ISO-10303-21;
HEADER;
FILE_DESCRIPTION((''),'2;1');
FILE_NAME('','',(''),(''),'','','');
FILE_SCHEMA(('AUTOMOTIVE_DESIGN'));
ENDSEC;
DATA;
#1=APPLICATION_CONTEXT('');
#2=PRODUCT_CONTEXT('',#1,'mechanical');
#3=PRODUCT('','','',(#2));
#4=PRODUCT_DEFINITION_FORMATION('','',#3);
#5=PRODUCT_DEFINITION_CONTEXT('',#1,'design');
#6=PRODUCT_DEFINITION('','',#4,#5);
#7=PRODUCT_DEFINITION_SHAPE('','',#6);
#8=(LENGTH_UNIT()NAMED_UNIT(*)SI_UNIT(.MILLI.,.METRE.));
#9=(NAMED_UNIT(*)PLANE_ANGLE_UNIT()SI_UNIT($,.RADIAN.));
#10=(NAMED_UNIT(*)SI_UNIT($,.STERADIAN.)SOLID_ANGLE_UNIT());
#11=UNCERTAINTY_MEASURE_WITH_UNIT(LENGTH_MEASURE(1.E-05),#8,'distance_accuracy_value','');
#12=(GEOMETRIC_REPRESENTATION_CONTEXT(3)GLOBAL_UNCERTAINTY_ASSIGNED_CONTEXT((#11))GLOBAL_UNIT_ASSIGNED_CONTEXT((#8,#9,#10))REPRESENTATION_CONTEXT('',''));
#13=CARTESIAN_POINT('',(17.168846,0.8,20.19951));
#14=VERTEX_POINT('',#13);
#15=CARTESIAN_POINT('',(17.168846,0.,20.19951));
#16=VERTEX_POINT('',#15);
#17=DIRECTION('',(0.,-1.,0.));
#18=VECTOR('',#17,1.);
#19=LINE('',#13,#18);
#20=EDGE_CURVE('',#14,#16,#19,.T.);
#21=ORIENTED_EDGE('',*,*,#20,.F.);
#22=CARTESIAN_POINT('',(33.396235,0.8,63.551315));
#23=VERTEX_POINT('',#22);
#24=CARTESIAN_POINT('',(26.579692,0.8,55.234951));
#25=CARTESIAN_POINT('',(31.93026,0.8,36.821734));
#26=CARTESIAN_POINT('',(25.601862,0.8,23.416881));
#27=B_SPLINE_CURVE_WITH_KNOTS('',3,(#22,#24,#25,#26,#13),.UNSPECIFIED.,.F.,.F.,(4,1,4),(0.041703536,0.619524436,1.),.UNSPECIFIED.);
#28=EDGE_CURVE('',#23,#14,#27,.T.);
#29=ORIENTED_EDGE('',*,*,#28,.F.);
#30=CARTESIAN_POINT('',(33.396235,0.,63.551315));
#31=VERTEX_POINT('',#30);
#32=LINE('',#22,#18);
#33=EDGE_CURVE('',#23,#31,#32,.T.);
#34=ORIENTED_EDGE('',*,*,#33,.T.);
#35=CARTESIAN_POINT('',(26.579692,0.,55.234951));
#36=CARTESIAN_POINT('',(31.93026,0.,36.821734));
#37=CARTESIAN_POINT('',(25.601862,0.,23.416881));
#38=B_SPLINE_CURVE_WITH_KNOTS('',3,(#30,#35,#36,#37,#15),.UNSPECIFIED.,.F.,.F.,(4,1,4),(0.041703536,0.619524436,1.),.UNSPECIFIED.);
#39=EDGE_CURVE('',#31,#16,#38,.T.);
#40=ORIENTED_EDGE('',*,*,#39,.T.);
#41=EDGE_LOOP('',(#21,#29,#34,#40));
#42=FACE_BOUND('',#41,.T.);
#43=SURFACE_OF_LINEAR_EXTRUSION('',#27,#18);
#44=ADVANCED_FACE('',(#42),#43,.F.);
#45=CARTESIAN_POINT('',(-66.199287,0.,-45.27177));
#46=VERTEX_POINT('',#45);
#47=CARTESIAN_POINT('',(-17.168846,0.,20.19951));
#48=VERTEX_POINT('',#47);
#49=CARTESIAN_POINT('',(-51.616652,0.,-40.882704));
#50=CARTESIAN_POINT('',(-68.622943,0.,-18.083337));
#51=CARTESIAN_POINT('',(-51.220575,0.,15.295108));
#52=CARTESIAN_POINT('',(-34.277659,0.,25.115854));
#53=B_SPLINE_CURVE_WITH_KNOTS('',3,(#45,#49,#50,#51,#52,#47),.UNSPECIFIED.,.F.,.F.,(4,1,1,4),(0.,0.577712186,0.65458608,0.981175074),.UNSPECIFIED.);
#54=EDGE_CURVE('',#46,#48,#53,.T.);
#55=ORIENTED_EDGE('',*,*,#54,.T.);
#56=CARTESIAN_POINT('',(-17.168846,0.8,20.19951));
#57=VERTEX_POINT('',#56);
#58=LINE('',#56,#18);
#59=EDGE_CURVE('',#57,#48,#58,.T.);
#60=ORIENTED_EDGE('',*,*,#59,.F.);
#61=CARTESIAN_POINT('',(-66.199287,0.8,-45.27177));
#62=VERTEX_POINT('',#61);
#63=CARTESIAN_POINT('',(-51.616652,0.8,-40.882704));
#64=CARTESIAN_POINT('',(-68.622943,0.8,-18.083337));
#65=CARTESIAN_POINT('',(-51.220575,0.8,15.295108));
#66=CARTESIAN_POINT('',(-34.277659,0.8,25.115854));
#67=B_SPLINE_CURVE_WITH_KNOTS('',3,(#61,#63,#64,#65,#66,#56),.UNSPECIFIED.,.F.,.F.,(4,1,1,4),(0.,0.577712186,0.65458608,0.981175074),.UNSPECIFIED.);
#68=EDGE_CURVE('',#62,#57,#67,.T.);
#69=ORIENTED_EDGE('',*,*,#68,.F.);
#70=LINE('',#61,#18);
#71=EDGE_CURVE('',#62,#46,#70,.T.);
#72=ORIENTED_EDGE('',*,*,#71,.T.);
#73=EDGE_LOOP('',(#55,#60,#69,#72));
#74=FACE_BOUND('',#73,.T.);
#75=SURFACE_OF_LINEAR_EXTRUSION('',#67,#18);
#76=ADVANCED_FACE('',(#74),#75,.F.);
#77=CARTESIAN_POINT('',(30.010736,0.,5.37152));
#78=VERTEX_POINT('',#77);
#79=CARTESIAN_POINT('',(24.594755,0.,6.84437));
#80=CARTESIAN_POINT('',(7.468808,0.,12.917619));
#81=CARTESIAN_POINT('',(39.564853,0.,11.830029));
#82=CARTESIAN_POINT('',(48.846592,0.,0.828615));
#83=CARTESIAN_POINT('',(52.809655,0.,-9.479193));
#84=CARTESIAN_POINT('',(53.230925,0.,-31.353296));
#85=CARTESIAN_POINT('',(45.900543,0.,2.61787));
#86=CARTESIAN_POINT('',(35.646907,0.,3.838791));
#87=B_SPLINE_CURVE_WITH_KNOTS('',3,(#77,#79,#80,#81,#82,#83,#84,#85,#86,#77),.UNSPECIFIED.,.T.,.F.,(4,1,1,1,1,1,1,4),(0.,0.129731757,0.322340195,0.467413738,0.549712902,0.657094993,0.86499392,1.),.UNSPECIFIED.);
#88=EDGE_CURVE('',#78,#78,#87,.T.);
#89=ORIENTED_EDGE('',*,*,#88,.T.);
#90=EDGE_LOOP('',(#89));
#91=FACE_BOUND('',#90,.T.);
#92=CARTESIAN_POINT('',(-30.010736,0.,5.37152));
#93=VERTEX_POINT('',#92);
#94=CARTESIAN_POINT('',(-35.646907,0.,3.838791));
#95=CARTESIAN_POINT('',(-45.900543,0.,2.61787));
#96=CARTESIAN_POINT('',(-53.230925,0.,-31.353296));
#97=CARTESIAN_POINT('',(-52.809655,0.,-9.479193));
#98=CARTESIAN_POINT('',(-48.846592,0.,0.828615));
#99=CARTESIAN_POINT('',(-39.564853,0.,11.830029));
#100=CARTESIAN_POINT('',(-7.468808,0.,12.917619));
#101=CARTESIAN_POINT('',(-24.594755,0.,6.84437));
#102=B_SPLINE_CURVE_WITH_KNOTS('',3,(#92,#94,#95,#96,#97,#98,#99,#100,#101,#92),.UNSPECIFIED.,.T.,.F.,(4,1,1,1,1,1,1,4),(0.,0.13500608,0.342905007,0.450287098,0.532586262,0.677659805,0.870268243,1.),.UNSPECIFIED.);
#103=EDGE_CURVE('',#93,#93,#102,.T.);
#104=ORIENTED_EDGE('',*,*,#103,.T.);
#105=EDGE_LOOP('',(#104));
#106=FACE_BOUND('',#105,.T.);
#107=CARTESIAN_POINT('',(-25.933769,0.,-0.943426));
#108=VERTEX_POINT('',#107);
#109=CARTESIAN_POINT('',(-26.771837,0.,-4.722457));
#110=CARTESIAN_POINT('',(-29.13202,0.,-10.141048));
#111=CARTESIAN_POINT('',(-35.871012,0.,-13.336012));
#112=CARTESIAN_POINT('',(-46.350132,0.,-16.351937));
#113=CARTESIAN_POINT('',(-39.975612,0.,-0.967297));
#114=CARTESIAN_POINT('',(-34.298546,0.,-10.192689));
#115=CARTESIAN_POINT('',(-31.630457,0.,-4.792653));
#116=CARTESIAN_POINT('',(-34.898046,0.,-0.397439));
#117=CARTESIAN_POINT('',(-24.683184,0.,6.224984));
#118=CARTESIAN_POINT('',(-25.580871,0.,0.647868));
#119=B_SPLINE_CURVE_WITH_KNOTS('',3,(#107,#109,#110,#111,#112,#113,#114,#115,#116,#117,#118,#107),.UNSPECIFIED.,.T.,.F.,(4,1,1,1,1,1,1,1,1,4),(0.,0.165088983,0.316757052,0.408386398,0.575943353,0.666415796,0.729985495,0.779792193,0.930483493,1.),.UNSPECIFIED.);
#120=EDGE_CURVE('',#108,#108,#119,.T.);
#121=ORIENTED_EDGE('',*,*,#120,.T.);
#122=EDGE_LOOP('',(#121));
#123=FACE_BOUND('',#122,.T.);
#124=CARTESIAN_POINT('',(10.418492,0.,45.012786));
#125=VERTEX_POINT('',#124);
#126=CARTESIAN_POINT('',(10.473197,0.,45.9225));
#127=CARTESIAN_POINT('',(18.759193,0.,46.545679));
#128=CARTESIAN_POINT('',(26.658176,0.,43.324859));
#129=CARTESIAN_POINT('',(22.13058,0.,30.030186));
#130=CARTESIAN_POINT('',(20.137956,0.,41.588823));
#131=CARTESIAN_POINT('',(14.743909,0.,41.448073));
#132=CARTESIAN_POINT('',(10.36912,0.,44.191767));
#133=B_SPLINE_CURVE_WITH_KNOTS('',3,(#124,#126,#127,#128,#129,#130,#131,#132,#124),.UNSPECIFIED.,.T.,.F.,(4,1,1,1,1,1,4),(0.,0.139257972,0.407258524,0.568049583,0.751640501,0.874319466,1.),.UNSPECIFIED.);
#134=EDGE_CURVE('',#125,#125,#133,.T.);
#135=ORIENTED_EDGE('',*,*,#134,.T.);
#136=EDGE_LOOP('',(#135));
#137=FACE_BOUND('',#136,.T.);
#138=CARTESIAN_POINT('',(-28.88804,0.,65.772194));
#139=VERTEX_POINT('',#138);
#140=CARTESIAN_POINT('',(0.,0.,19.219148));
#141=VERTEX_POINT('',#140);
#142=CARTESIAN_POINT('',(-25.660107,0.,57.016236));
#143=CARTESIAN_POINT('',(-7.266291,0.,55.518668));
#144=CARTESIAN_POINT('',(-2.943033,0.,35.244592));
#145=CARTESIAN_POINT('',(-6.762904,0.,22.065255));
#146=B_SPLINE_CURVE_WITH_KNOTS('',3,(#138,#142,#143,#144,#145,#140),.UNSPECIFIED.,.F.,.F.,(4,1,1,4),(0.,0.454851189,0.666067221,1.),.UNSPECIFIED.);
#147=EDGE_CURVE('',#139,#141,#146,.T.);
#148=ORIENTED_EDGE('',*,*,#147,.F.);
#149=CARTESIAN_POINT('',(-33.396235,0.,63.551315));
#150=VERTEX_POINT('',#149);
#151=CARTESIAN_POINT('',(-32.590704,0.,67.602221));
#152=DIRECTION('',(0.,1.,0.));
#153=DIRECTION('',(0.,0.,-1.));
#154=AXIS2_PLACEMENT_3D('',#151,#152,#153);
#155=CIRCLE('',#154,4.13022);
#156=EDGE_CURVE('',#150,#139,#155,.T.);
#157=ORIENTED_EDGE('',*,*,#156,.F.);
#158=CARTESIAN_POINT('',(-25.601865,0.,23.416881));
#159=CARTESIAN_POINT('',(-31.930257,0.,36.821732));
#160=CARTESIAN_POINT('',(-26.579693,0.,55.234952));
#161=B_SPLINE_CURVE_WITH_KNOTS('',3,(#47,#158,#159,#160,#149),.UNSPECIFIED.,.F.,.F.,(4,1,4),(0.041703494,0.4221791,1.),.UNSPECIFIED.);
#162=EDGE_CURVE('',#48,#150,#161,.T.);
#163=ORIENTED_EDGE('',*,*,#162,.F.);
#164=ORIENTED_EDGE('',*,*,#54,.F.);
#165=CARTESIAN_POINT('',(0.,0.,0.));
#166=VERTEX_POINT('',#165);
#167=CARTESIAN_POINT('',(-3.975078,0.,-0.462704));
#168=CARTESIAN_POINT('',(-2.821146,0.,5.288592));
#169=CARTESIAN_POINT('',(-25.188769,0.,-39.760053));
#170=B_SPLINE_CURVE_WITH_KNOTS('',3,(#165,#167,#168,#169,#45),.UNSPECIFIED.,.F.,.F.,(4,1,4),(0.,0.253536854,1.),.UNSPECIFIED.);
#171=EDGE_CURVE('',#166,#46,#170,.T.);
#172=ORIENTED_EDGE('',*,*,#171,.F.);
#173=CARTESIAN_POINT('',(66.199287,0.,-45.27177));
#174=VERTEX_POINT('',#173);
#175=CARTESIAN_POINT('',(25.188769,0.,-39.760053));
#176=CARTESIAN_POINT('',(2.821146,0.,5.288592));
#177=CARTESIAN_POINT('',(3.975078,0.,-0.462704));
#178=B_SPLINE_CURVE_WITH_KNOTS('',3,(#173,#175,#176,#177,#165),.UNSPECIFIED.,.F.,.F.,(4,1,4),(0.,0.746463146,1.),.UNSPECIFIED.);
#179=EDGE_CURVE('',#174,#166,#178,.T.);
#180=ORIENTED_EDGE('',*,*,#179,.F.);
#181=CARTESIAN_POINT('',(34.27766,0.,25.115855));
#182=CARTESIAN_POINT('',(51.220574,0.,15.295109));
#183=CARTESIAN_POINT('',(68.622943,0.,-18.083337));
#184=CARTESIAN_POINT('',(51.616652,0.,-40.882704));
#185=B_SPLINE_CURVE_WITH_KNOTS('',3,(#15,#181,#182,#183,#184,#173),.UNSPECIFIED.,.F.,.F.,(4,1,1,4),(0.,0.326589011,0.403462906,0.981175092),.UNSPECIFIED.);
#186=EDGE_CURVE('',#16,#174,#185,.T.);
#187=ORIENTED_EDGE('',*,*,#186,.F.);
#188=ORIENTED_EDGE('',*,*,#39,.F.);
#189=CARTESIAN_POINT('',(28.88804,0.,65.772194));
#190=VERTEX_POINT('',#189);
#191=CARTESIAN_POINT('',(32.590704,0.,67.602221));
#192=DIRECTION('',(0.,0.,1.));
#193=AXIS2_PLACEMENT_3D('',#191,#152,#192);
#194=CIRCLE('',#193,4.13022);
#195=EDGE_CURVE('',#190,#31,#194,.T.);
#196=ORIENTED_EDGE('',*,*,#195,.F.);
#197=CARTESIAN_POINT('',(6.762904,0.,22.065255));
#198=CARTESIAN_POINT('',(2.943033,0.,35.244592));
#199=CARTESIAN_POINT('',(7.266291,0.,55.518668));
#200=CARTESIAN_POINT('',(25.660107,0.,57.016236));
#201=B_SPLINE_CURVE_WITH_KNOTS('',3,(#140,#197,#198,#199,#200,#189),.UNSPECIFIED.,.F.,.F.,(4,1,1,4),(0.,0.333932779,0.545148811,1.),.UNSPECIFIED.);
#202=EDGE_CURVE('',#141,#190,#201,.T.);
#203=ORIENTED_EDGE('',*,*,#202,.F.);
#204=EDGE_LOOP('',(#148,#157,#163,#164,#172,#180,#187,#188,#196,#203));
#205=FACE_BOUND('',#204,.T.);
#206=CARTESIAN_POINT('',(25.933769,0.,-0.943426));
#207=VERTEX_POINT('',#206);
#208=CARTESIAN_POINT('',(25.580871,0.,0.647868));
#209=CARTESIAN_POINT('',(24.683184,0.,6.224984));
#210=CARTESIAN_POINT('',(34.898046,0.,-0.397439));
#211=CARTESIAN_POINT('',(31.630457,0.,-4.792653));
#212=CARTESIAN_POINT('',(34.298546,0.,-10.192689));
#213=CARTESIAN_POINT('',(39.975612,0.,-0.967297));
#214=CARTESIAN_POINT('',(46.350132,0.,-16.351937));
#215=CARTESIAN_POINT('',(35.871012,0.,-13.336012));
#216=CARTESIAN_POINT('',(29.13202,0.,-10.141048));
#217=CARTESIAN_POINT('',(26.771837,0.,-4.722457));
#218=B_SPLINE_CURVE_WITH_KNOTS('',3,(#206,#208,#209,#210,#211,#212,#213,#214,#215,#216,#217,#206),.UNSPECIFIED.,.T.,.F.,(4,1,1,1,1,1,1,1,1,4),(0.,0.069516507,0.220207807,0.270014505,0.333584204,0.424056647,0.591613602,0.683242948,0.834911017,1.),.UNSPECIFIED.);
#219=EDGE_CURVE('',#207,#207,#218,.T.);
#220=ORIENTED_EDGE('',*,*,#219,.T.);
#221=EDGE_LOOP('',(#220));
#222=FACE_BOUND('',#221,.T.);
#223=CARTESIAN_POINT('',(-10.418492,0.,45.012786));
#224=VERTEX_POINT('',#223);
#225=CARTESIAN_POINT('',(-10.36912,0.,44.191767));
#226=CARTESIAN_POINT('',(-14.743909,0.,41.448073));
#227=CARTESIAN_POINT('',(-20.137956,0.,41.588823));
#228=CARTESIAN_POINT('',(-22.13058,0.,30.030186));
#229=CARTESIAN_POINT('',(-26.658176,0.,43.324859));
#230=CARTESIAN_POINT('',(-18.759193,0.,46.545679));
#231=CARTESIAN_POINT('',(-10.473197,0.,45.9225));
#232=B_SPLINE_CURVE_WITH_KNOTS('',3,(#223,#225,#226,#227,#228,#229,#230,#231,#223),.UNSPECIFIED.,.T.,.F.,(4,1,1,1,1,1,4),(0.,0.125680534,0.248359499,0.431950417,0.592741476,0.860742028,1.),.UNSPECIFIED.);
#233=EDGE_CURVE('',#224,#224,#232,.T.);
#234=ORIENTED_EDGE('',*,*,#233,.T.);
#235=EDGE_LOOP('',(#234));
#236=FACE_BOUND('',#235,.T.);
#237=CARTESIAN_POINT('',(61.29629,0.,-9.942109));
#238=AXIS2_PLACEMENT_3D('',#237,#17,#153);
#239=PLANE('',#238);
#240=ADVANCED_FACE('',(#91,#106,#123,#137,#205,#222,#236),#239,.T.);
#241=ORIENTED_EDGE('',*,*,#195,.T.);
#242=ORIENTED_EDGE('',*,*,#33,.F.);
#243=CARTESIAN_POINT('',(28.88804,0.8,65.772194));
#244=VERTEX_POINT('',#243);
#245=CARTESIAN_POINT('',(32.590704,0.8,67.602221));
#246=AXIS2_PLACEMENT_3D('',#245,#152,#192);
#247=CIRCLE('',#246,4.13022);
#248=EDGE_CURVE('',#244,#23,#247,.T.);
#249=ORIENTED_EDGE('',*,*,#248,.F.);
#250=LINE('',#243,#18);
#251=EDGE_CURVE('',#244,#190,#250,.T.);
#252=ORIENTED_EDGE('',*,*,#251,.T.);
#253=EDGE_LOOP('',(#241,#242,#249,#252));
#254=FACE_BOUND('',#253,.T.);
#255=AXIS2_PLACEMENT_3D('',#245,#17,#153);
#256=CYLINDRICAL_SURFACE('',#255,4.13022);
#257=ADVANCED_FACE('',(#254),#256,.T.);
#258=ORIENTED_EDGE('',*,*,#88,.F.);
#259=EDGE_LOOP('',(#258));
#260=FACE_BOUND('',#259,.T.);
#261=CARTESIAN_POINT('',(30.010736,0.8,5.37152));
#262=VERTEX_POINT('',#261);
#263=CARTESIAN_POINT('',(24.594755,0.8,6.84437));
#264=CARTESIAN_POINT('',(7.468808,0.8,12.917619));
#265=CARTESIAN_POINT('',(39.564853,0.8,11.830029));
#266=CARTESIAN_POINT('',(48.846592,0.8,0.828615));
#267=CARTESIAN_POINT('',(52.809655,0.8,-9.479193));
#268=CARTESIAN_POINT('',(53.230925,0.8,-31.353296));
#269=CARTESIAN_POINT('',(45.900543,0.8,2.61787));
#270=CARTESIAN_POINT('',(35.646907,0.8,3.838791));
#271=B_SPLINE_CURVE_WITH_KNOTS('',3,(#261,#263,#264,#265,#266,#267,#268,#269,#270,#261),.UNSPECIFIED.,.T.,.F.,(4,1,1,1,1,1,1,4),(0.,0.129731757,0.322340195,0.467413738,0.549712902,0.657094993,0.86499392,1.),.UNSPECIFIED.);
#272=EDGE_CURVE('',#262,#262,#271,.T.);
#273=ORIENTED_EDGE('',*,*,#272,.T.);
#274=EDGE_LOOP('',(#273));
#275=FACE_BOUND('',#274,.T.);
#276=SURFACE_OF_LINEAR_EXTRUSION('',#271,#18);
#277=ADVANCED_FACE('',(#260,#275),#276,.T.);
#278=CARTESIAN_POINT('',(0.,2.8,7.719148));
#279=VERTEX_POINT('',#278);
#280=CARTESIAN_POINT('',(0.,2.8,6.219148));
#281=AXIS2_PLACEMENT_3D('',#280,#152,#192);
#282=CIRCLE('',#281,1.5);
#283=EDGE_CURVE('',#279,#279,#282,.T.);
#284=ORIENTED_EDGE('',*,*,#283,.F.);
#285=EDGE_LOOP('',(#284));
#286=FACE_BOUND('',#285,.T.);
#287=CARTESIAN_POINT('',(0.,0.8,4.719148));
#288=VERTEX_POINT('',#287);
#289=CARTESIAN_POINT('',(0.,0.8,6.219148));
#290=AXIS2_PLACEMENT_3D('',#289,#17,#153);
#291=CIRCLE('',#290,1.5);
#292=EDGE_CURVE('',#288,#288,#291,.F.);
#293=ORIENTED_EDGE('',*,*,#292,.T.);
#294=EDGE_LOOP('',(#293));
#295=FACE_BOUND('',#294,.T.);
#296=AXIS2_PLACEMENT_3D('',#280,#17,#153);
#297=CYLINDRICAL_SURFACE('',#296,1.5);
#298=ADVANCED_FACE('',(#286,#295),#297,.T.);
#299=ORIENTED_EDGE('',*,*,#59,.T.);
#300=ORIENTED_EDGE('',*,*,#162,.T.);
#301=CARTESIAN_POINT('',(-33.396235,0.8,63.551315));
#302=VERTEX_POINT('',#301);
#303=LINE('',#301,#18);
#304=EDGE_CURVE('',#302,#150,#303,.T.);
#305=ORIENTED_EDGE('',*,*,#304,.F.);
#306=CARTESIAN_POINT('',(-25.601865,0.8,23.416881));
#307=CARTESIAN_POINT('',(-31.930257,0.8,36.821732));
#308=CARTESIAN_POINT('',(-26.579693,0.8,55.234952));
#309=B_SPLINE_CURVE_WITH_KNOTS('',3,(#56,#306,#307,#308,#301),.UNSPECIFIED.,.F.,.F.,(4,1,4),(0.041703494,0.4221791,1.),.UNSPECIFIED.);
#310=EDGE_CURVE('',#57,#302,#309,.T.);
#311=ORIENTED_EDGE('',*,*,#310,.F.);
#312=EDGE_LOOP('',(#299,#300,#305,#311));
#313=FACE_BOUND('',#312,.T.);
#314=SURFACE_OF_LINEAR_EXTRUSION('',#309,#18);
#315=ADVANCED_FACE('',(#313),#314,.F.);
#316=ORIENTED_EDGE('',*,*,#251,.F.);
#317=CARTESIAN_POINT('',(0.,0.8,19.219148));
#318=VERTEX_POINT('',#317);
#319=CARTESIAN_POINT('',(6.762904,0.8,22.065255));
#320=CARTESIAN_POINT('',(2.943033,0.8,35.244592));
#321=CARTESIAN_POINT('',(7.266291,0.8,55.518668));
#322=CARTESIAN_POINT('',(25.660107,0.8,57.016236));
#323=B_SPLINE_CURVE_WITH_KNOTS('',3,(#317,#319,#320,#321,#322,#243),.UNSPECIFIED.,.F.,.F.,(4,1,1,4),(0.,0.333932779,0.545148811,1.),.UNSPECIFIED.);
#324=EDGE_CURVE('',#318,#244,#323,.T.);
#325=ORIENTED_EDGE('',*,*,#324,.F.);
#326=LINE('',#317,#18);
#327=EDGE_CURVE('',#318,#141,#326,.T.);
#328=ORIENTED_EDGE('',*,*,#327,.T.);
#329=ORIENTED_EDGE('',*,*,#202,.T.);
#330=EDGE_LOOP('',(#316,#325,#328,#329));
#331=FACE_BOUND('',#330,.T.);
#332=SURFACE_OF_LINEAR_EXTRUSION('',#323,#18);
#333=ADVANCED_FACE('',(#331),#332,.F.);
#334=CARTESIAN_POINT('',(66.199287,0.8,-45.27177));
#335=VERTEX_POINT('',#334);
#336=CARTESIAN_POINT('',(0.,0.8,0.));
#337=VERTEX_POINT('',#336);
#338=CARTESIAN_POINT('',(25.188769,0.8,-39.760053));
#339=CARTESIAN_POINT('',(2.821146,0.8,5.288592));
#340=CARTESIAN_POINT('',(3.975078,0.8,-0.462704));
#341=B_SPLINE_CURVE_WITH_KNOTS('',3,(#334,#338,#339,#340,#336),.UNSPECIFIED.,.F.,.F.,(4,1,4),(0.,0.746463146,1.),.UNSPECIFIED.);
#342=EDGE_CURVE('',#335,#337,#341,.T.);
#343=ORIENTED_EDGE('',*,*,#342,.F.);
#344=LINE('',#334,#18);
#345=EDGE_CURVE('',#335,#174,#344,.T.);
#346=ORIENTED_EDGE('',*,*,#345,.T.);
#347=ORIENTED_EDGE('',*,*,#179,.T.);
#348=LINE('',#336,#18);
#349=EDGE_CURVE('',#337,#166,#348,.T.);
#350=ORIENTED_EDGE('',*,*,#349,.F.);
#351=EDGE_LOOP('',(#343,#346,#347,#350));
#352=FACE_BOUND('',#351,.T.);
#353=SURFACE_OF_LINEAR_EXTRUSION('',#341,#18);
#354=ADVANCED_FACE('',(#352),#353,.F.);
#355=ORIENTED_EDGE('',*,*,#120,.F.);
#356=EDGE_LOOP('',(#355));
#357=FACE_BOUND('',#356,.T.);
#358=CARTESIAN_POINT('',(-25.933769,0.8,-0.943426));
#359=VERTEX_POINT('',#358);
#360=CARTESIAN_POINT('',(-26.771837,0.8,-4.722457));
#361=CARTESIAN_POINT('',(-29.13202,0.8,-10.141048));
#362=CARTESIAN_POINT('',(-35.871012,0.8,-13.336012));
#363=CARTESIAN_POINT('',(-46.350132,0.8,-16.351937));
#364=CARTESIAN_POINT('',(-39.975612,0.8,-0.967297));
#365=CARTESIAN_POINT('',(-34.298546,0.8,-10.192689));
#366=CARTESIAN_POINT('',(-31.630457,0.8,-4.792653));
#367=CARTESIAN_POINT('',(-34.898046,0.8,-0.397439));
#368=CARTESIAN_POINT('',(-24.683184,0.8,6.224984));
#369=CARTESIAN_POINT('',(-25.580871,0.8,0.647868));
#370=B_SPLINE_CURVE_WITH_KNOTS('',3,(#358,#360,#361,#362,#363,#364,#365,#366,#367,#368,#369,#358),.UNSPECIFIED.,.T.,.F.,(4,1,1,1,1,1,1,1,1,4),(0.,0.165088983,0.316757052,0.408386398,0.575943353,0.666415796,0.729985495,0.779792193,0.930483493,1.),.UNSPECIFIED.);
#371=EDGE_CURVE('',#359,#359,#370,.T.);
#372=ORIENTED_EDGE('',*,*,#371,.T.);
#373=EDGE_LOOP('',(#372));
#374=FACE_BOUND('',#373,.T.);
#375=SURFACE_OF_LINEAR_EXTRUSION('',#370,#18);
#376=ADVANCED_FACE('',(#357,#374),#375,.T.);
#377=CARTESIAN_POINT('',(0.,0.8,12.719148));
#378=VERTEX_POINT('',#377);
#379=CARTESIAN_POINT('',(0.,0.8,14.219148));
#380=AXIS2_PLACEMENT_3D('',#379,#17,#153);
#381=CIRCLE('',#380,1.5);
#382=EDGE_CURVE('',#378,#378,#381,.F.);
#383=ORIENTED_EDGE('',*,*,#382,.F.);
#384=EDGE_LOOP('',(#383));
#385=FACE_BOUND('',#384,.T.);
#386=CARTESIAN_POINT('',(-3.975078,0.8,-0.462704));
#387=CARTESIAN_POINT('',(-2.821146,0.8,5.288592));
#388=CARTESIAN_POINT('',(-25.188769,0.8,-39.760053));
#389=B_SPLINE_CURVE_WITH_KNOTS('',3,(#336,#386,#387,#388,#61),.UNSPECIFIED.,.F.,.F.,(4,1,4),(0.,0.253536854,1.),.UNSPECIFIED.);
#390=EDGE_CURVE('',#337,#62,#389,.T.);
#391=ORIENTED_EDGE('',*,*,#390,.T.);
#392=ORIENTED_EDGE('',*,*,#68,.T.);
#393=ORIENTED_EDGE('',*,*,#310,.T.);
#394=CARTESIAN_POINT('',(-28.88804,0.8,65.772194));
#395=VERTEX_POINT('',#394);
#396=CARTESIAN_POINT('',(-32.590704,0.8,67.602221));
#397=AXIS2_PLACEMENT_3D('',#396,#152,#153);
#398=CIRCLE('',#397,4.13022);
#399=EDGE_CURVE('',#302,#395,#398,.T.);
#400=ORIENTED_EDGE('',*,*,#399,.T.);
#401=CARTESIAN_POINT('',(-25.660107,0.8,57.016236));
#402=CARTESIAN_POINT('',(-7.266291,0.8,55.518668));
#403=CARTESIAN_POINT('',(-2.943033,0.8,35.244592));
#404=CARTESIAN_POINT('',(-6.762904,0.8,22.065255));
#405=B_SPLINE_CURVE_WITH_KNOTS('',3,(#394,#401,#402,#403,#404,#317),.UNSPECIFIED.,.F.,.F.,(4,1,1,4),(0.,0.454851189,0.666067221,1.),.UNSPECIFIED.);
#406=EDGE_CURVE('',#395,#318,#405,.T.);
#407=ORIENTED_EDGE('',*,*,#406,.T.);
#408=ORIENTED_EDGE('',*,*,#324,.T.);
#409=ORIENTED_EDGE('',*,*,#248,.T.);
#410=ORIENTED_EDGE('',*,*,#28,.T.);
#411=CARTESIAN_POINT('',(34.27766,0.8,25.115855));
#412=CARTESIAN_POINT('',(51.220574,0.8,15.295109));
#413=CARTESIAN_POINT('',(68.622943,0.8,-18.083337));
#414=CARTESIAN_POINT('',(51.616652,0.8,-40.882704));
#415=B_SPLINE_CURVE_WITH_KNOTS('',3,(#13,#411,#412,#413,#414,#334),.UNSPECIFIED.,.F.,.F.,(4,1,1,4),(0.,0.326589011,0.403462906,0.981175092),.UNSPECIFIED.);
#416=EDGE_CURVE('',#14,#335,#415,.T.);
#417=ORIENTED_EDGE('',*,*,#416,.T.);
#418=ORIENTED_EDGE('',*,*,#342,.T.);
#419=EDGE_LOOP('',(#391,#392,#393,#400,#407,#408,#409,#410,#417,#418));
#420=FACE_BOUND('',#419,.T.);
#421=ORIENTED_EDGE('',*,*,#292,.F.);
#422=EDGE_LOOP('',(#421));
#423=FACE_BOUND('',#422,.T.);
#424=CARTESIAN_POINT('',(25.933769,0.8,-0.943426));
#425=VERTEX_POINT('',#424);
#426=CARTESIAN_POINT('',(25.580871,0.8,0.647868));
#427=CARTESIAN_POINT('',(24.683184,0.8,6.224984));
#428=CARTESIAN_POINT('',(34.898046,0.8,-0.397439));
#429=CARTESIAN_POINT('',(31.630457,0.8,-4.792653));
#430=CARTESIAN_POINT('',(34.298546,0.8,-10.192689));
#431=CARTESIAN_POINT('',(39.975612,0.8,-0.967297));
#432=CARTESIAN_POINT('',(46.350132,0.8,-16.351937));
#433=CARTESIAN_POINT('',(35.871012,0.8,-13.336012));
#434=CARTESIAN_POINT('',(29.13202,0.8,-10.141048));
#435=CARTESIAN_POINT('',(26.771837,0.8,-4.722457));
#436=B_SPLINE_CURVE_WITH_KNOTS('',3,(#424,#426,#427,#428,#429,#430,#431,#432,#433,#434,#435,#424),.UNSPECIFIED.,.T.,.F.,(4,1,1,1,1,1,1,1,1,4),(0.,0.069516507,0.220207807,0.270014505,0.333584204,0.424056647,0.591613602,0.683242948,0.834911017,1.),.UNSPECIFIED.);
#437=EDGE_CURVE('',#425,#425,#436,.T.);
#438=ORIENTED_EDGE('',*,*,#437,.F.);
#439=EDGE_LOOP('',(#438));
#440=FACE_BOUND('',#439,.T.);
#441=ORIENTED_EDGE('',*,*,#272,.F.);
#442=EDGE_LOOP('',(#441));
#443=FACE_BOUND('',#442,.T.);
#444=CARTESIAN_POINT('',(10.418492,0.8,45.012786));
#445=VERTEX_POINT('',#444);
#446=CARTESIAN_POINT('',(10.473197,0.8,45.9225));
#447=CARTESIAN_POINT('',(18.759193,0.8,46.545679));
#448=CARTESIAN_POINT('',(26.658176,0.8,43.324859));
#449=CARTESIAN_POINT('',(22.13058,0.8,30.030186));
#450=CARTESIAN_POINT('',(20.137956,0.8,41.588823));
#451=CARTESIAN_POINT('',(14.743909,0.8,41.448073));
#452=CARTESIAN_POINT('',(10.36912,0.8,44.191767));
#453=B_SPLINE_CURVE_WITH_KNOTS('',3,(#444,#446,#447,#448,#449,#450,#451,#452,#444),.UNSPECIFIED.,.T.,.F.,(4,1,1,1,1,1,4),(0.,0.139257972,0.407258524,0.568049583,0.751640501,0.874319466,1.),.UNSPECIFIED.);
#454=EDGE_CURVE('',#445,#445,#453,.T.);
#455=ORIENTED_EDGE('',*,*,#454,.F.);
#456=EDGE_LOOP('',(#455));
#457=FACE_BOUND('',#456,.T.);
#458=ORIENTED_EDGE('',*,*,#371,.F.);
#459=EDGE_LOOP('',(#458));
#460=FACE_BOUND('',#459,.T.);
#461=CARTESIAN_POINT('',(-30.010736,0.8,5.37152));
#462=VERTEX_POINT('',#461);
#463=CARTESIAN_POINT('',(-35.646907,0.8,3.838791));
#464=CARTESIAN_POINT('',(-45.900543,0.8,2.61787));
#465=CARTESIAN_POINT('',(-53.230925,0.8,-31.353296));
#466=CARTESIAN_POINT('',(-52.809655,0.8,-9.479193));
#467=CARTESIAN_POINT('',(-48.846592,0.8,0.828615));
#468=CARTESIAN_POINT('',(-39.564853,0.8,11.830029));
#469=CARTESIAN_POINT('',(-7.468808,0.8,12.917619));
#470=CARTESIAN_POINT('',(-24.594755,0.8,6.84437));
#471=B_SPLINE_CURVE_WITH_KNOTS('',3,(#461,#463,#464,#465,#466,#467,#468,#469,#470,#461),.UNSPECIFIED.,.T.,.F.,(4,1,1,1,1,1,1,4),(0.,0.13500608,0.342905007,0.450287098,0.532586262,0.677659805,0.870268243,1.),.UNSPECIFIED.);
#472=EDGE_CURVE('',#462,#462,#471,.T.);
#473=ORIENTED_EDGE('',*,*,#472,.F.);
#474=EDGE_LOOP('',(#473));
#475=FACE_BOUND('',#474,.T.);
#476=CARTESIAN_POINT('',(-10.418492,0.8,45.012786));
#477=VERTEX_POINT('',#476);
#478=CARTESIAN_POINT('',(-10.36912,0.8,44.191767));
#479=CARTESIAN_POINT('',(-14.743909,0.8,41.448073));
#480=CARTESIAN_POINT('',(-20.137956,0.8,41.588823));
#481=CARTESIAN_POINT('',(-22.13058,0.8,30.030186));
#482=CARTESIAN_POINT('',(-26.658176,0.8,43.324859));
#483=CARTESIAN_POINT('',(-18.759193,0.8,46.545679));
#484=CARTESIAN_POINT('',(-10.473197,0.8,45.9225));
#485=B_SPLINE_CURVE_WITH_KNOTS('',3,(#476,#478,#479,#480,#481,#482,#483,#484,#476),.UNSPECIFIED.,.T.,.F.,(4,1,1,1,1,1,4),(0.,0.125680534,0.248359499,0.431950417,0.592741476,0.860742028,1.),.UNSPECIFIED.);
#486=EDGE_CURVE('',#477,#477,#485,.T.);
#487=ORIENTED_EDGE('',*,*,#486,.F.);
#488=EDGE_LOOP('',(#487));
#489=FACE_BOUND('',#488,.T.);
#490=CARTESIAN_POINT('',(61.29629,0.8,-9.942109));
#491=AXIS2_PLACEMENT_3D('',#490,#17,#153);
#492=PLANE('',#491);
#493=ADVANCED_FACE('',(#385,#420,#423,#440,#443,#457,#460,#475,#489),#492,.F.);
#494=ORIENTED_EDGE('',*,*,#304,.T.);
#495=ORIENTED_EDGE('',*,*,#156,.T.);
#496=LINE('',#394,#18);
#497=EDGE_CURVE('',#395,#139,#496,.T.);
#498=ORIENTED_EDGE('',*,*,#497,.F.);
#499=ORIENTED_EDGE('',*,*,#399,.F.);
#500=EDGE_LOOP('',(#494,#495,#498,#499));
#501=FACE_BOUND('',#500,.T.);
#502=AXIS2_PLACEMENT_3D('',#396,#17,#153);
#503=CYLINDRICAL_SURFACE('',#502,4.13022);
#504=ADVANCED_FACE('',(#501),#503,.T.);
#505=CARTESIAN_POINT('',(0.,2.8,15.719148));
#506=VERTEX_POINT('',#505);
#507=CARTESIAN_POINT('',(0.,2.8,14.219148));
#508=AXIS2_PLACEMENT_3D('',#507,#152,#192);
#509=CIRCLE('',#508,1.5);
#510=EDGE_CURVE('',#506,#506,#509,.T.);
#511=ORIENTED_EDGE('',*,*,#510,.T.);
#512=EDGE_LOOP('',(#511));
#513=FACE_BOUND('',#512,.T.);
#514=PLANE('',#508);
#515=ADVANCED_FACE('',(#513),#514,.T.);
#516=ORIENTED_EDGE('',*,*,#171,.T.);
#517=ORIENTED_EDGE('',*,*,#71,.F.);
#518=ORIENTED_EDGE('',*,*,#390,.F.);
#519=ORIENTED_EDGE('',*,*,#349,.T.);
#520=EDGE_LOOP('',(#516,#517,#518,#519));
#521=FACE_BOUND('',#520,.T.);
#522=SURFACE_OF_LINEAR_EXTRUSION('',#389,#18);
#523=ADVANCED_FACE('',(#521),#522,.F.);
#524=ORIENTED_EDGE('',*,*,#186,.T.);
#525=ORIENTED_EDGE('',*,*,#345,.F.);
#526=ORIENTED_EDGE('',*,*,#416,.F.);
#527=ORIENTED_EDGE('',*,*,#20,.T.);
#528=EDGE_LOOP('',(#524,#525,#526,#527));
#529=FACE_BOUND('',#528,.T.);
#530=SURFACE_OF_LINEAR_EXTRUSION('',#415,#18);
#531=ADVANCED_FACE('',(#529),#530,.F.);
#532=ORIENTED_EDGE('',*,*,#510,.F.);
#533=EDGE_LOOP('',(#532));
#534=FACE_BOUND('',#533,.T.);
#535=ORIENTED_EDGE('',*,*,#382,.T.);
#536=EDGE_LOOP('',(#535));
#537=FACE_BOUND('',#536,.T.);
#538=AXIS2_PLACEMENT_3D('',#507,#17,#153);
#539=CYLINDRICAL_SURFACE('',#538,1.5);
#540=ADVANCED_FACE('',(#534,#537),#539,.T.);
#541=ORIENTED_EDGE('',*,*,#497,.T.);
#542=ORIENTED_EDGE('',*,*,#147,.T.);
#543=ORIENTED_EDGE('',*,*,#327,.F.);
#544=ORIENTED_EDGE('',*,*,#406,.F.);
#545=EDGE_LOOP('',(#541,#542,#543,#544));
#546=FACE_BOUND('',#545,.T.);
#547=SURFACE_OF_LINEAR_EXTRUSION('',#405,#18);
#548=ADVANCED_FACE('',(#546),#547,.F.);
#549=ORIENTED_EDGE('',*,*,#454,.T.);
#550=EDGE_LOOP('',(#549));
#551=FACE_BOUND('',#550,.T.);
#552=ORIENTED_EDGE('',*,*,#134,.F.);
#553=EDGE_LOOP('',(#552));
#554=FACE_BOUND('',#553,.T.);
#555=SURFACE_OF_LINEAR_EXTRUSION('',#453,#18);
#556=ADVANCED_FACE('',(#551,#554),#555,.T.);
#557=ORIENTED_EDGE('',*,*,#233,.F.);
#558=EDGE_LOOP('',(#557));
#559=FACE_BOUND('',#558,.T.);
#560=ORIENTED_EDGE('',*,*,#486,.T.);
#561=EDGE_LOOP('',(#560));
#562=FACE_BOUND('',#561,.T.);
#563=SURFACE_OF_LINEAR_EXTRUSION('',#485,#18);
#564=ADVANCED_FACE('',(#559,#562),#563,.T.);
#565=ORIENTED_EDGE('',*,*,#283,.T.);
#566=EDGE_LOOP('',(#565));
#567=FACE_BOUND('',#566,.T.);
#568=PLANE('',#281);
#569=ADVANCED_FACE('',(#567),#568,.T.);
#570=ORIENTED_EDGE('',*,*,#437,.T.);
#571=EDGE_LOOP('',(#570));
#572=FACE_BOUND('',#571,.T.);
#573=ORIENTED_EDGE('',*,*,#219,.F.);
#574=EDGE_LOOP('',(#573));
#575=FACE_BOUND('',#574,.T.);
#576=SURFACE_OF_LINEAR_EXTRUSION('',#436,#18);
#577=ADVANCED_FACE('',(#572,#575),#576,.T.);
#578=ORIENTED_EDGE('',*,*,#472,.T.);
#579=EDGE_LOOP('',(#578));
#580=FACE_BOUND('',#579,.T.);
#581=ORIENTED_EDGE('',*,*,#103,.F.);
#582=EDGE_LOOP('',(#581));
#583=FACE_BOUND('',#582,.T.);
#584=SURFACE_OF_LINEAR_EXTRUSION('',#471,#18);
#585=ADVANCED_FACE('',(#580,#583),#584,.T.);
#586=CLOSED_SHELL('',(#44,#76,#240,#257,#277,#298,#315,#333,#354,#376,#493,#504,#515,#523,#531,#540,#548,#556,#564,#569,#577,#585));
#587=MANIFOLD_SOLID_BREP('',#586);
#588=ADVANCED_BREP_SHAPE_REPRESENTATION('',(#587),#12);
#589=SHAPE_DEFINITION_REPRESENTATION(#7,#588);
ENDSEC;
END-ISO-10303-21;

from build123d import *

# Parameters (mm, degrees)
BOSS_EXTRUDE3_DEPTH = 0.8
HARNESS_R           = 1.5
BOSS_EXTRUDE4_DEPTH = 2


with BuildPart() as part:
    # Sketch1 → Boss-Extrude3 (new body)
    with BuildSketch(Plane(origin=(0, 0, 0), x_dir=(1, 0, 0), z_dir=(0, 1, 0))):
        with BuildLine():
            ThreePointArc((28.888039942, -65.77219443), (34.415921768, -71.307257008), (33.396235087, -63.551315138))
            add(Edge.make_bspline(
                [(17.168845941, -20.199510482), (25.601862346, -23.416880713), (31.930259846, -36.821733843), (26.579691655, -55.234951459), (33.396235087, -63.551315138)],
                knots=[0.041703536, 0.041703536, 0.041703536, 0.041703536, 0.4221791, 1, 1, 1, 1], degree=3))
            add(Edge.make_bspline(
                [(66.199286602, 45.271770192), (51.616651545, 40.882704411), (68.622943428, 18.083336745), (51.220574163, -15.295108956), (34.277659956, -25.115855404), (17.168845941, -20.199510482)],
                knots=[0, 0, 0, 0, 0.577712186, 0.654586081, 0.981175092, 0.981175092, 0.981175092, 0.981175092], degree=3))
            add(Edge.make_bspline(
                [(66.199286602, 45.271770192), (25.188769317, 39.760052824), (2.821146187, -5.288592208), (3.975078037, 0.46270426), (0, 0)],
                knots=[0, 0, 0, 0, 0.746463146, 1, 1, 1, 1], degree=3))
            add(Edge.make_bspline(
                [(-66.199286602, 45.271770192), (-25.188769317, 39.760052824), (-2.821146187, -5.288592208), (-3.975078037, 0.46270426), (0, 0)],
                knots=[0, 0, 0, 0, 0.746463146, 1, 1, 1, 1], degree=3))
            add(Edge.make_bspline(
                [(-66.199286602, 45.271770192), (-51.616651674, 40.882704374), (-68.622943119, 18.083336884), (-51.22057473, -15.295108333), (-34.277658731, -25.11585374), (-17.168845941, -20.199510483)],
                knots=[0, 0, 0, 0, 0.577712186, 0.65458608, 0.981175074, 0.981175074, 0.981175074, 0.981175074], degree=3))
            add(Edge.make_bspline(
                [(-17.168845941, -20.199510483), (-25.601864563, -23.416880605), (-31.930257486, -36.821732055), (-26.579693148, -55.234952029), (-33.396235087, -63.551315138)],
                knots=[0.041703494, 0.041703494, 0.041703494, 0.041703494, 0.4221791, 1, 1, 1, 1], degree=3))
            ThreePointArc((-33.396235087, -63.551315138), (-34.415921768, -71.307257008), (-28.888039942, -65.77219443))
            add(Edge.make_bspline(
                [(0, -19.219147723), (-6.762904012, -22.065254633), (-2.943032564, -35.244592356), (-7.26629122, -55.518667737), (-25.66010738, -57.01623645), (-28.888039942, -65.77219443)],
                knots=[0, 0, 0, 0, 0.333932779, 0.545148811, 1, 1, 1, 1], degree=3))
            add(Edge.make_bspline(
                [(0, -19.219147723), (6.762904012, -22.065254633), (2.943032564, -35.244592356), (7.26629122, -55.518667737), (25.66010738, -57.01623645), (28.888039942, -65.77219443)],
                knots=[0, 0, 0, 0, 0.333932779, 0.545148811, 1, 1, 1, 1], degree=3))
        make_face()
        with BuildLine():
            add(Edge.make_bspline(
                [(30.010736325, -5.371520279), (35.646907205, -3.838791271), (45.900543118, -2.617869588), (53.230925245, 31.353295803), (52.809655123, 9.479192824), (48.846591649, -0.828614969), (39.564852657, -11.830029321), (7.468807558, -12.917619007), (24.594755404, -6.844369708), (30.010736325, -5.371520279)],
                knots=[0, 0, 0, 0, 0.13500608, 0.342905007, 0.450287098, 0.532586262, 0.677659805, 0.870268243, 1, 1, 1, 1], degree=3))
        make_face(mode=Mode.SUBTRACT)
        with BuildLine():
            add(Edge.make_bspline(
                [(-30.010736325, -5.371520279), (-35.646907205, -3.838791271), (-45.900543118, -2.617869588), (-53.230925245, 31.353295803), (-52.809655123, 9.479192824), (-48.846591649, -0.828614969), (-39.564852657, -11.830029321), (-7.468807558, -12.917619007), (-24.594755404, -6.844369708), (-30.010736325, -5.371520279)],
                knots=[0, 0, 0, 0, 0.13500608, 0.342905007, 0.450287098, 0.532586262, 0.677659805, 0.870268243, 1, 1, 1, 1], degree=3))
        make_face(mode=Mode.SUBTRACT)
        with BuildLine():
            add(Edge.make_bspline(
                [(25.933769111, 0.943425663), (26.771837307, 4.722456666), (29.132020256, 10.141048482), (35.871012248, 13.336012136), (46.350131757, 16.351937147), (39.97561187, 0.96729674), (34.298545578, 10.1926892), (31.630456833, 4.792653024), (34.898046165, 0.397438589), (24.683183656, -6.224983722), (25.580871101, -0.647867891), (25.933769111, 0.943425663)],
                knots=[0, 0, 0, 0, 0.165088983, 0.316757052, 0.408386398, 0.575943353, 0.666415796, 0.729985495, 0.779792193, 0.930483493, 1, 1, 1, 1], degree=3))
        make_face(mode=Mode.SUBTRACT)
        with BuildLine():
            add(Edge.make_bspline(
                [(-25.933769111, 0.943425663), (-26.771837307, 4.722456666), (-29.132020256, 10.141048482), (-35.871012248, 13.336012136), (-46.350131757, 16.351937147), (-39.97561187, 0.96729674), (-34.298545578, 10.1926892), (-31.630456833, 4.792653024), (-34.898046165, 0.397438589), (-24.683183656, -6.224983722), (-25.580871101, -0.647867891), (-25.933769111, 0.943425663)],
                knots=[0, 0, 0, 0, 0.165088983, 0.316757052, 0.408386398, 0.575943353, 0.666415796, 0.729985495, 0.779792193, 0.930483493, 1, 1, 1, 1], degree=3))
        make_face(mode=Mode.SUBTRACT)
        with BuildLine():
            add(Edge.make_bspline(
                [(10.41849174, -45.012785611), (10.473196702, -45.922500287), (18.759192635, -46.545678991), (26.658175754, -43.324858901), (22.130580196, -30.030186363), (20.137955635, -41.588823489), (14.743909096, -41.448073399), (10.369120428, -44.191766712), (10.41849174, -45.012785611)],
                knots=[0, 0, 0, 0, 0.139257972, 0.407258524, 0.568049583, 0.751640501, 0.874319466, 1, 1, 1, 1], degree=3))
        make_face(mode=Mode.SUBTRACT)
        with BuildLine():
            add(Edge.make_bspline(
                [(-10.41849174, -45.012785611), (-10.473196702, -45.922500287), (-18.759192635, -46.545678991), (-26.658175754, -43.324858901), (-22.130580196, -30.030186363), (-20.137955635, -41.588823489), (-14.743909096, -41.448073399), (-10.369120428, -44.191766712), (-10.41849174, -45.012785611)],
                knots=[0, 0, 0, 0, 0.139257972, 0.407258524, 0.568049583, 0.751640501, 0.874319466, 1, 1, 1, 1], degree=3))
        make_face(mode=Mode.SUBTRACT)
    extrude(amount=BOSS_EXTRUDE3_DEPTH)

    # Harness → Boss-Extrude4 (add)
    with BuildSketch(Plane(origin=(0, 0.8, 0), x_dir=(1, 0, 0), z_dir=(0, 1, 0))):
        with Locations(Location((0, -6.219147723, 0), (0, 0, 90))):
            Circle(HARNESS_R)
        with Locations(Location((0, -14.219147723, 0), (0, 0, 90))):
            Circle(HARNESS_R)
    extrude(amount=BOSS_EXTRUDE4_DEPTH)


solid = part.part
